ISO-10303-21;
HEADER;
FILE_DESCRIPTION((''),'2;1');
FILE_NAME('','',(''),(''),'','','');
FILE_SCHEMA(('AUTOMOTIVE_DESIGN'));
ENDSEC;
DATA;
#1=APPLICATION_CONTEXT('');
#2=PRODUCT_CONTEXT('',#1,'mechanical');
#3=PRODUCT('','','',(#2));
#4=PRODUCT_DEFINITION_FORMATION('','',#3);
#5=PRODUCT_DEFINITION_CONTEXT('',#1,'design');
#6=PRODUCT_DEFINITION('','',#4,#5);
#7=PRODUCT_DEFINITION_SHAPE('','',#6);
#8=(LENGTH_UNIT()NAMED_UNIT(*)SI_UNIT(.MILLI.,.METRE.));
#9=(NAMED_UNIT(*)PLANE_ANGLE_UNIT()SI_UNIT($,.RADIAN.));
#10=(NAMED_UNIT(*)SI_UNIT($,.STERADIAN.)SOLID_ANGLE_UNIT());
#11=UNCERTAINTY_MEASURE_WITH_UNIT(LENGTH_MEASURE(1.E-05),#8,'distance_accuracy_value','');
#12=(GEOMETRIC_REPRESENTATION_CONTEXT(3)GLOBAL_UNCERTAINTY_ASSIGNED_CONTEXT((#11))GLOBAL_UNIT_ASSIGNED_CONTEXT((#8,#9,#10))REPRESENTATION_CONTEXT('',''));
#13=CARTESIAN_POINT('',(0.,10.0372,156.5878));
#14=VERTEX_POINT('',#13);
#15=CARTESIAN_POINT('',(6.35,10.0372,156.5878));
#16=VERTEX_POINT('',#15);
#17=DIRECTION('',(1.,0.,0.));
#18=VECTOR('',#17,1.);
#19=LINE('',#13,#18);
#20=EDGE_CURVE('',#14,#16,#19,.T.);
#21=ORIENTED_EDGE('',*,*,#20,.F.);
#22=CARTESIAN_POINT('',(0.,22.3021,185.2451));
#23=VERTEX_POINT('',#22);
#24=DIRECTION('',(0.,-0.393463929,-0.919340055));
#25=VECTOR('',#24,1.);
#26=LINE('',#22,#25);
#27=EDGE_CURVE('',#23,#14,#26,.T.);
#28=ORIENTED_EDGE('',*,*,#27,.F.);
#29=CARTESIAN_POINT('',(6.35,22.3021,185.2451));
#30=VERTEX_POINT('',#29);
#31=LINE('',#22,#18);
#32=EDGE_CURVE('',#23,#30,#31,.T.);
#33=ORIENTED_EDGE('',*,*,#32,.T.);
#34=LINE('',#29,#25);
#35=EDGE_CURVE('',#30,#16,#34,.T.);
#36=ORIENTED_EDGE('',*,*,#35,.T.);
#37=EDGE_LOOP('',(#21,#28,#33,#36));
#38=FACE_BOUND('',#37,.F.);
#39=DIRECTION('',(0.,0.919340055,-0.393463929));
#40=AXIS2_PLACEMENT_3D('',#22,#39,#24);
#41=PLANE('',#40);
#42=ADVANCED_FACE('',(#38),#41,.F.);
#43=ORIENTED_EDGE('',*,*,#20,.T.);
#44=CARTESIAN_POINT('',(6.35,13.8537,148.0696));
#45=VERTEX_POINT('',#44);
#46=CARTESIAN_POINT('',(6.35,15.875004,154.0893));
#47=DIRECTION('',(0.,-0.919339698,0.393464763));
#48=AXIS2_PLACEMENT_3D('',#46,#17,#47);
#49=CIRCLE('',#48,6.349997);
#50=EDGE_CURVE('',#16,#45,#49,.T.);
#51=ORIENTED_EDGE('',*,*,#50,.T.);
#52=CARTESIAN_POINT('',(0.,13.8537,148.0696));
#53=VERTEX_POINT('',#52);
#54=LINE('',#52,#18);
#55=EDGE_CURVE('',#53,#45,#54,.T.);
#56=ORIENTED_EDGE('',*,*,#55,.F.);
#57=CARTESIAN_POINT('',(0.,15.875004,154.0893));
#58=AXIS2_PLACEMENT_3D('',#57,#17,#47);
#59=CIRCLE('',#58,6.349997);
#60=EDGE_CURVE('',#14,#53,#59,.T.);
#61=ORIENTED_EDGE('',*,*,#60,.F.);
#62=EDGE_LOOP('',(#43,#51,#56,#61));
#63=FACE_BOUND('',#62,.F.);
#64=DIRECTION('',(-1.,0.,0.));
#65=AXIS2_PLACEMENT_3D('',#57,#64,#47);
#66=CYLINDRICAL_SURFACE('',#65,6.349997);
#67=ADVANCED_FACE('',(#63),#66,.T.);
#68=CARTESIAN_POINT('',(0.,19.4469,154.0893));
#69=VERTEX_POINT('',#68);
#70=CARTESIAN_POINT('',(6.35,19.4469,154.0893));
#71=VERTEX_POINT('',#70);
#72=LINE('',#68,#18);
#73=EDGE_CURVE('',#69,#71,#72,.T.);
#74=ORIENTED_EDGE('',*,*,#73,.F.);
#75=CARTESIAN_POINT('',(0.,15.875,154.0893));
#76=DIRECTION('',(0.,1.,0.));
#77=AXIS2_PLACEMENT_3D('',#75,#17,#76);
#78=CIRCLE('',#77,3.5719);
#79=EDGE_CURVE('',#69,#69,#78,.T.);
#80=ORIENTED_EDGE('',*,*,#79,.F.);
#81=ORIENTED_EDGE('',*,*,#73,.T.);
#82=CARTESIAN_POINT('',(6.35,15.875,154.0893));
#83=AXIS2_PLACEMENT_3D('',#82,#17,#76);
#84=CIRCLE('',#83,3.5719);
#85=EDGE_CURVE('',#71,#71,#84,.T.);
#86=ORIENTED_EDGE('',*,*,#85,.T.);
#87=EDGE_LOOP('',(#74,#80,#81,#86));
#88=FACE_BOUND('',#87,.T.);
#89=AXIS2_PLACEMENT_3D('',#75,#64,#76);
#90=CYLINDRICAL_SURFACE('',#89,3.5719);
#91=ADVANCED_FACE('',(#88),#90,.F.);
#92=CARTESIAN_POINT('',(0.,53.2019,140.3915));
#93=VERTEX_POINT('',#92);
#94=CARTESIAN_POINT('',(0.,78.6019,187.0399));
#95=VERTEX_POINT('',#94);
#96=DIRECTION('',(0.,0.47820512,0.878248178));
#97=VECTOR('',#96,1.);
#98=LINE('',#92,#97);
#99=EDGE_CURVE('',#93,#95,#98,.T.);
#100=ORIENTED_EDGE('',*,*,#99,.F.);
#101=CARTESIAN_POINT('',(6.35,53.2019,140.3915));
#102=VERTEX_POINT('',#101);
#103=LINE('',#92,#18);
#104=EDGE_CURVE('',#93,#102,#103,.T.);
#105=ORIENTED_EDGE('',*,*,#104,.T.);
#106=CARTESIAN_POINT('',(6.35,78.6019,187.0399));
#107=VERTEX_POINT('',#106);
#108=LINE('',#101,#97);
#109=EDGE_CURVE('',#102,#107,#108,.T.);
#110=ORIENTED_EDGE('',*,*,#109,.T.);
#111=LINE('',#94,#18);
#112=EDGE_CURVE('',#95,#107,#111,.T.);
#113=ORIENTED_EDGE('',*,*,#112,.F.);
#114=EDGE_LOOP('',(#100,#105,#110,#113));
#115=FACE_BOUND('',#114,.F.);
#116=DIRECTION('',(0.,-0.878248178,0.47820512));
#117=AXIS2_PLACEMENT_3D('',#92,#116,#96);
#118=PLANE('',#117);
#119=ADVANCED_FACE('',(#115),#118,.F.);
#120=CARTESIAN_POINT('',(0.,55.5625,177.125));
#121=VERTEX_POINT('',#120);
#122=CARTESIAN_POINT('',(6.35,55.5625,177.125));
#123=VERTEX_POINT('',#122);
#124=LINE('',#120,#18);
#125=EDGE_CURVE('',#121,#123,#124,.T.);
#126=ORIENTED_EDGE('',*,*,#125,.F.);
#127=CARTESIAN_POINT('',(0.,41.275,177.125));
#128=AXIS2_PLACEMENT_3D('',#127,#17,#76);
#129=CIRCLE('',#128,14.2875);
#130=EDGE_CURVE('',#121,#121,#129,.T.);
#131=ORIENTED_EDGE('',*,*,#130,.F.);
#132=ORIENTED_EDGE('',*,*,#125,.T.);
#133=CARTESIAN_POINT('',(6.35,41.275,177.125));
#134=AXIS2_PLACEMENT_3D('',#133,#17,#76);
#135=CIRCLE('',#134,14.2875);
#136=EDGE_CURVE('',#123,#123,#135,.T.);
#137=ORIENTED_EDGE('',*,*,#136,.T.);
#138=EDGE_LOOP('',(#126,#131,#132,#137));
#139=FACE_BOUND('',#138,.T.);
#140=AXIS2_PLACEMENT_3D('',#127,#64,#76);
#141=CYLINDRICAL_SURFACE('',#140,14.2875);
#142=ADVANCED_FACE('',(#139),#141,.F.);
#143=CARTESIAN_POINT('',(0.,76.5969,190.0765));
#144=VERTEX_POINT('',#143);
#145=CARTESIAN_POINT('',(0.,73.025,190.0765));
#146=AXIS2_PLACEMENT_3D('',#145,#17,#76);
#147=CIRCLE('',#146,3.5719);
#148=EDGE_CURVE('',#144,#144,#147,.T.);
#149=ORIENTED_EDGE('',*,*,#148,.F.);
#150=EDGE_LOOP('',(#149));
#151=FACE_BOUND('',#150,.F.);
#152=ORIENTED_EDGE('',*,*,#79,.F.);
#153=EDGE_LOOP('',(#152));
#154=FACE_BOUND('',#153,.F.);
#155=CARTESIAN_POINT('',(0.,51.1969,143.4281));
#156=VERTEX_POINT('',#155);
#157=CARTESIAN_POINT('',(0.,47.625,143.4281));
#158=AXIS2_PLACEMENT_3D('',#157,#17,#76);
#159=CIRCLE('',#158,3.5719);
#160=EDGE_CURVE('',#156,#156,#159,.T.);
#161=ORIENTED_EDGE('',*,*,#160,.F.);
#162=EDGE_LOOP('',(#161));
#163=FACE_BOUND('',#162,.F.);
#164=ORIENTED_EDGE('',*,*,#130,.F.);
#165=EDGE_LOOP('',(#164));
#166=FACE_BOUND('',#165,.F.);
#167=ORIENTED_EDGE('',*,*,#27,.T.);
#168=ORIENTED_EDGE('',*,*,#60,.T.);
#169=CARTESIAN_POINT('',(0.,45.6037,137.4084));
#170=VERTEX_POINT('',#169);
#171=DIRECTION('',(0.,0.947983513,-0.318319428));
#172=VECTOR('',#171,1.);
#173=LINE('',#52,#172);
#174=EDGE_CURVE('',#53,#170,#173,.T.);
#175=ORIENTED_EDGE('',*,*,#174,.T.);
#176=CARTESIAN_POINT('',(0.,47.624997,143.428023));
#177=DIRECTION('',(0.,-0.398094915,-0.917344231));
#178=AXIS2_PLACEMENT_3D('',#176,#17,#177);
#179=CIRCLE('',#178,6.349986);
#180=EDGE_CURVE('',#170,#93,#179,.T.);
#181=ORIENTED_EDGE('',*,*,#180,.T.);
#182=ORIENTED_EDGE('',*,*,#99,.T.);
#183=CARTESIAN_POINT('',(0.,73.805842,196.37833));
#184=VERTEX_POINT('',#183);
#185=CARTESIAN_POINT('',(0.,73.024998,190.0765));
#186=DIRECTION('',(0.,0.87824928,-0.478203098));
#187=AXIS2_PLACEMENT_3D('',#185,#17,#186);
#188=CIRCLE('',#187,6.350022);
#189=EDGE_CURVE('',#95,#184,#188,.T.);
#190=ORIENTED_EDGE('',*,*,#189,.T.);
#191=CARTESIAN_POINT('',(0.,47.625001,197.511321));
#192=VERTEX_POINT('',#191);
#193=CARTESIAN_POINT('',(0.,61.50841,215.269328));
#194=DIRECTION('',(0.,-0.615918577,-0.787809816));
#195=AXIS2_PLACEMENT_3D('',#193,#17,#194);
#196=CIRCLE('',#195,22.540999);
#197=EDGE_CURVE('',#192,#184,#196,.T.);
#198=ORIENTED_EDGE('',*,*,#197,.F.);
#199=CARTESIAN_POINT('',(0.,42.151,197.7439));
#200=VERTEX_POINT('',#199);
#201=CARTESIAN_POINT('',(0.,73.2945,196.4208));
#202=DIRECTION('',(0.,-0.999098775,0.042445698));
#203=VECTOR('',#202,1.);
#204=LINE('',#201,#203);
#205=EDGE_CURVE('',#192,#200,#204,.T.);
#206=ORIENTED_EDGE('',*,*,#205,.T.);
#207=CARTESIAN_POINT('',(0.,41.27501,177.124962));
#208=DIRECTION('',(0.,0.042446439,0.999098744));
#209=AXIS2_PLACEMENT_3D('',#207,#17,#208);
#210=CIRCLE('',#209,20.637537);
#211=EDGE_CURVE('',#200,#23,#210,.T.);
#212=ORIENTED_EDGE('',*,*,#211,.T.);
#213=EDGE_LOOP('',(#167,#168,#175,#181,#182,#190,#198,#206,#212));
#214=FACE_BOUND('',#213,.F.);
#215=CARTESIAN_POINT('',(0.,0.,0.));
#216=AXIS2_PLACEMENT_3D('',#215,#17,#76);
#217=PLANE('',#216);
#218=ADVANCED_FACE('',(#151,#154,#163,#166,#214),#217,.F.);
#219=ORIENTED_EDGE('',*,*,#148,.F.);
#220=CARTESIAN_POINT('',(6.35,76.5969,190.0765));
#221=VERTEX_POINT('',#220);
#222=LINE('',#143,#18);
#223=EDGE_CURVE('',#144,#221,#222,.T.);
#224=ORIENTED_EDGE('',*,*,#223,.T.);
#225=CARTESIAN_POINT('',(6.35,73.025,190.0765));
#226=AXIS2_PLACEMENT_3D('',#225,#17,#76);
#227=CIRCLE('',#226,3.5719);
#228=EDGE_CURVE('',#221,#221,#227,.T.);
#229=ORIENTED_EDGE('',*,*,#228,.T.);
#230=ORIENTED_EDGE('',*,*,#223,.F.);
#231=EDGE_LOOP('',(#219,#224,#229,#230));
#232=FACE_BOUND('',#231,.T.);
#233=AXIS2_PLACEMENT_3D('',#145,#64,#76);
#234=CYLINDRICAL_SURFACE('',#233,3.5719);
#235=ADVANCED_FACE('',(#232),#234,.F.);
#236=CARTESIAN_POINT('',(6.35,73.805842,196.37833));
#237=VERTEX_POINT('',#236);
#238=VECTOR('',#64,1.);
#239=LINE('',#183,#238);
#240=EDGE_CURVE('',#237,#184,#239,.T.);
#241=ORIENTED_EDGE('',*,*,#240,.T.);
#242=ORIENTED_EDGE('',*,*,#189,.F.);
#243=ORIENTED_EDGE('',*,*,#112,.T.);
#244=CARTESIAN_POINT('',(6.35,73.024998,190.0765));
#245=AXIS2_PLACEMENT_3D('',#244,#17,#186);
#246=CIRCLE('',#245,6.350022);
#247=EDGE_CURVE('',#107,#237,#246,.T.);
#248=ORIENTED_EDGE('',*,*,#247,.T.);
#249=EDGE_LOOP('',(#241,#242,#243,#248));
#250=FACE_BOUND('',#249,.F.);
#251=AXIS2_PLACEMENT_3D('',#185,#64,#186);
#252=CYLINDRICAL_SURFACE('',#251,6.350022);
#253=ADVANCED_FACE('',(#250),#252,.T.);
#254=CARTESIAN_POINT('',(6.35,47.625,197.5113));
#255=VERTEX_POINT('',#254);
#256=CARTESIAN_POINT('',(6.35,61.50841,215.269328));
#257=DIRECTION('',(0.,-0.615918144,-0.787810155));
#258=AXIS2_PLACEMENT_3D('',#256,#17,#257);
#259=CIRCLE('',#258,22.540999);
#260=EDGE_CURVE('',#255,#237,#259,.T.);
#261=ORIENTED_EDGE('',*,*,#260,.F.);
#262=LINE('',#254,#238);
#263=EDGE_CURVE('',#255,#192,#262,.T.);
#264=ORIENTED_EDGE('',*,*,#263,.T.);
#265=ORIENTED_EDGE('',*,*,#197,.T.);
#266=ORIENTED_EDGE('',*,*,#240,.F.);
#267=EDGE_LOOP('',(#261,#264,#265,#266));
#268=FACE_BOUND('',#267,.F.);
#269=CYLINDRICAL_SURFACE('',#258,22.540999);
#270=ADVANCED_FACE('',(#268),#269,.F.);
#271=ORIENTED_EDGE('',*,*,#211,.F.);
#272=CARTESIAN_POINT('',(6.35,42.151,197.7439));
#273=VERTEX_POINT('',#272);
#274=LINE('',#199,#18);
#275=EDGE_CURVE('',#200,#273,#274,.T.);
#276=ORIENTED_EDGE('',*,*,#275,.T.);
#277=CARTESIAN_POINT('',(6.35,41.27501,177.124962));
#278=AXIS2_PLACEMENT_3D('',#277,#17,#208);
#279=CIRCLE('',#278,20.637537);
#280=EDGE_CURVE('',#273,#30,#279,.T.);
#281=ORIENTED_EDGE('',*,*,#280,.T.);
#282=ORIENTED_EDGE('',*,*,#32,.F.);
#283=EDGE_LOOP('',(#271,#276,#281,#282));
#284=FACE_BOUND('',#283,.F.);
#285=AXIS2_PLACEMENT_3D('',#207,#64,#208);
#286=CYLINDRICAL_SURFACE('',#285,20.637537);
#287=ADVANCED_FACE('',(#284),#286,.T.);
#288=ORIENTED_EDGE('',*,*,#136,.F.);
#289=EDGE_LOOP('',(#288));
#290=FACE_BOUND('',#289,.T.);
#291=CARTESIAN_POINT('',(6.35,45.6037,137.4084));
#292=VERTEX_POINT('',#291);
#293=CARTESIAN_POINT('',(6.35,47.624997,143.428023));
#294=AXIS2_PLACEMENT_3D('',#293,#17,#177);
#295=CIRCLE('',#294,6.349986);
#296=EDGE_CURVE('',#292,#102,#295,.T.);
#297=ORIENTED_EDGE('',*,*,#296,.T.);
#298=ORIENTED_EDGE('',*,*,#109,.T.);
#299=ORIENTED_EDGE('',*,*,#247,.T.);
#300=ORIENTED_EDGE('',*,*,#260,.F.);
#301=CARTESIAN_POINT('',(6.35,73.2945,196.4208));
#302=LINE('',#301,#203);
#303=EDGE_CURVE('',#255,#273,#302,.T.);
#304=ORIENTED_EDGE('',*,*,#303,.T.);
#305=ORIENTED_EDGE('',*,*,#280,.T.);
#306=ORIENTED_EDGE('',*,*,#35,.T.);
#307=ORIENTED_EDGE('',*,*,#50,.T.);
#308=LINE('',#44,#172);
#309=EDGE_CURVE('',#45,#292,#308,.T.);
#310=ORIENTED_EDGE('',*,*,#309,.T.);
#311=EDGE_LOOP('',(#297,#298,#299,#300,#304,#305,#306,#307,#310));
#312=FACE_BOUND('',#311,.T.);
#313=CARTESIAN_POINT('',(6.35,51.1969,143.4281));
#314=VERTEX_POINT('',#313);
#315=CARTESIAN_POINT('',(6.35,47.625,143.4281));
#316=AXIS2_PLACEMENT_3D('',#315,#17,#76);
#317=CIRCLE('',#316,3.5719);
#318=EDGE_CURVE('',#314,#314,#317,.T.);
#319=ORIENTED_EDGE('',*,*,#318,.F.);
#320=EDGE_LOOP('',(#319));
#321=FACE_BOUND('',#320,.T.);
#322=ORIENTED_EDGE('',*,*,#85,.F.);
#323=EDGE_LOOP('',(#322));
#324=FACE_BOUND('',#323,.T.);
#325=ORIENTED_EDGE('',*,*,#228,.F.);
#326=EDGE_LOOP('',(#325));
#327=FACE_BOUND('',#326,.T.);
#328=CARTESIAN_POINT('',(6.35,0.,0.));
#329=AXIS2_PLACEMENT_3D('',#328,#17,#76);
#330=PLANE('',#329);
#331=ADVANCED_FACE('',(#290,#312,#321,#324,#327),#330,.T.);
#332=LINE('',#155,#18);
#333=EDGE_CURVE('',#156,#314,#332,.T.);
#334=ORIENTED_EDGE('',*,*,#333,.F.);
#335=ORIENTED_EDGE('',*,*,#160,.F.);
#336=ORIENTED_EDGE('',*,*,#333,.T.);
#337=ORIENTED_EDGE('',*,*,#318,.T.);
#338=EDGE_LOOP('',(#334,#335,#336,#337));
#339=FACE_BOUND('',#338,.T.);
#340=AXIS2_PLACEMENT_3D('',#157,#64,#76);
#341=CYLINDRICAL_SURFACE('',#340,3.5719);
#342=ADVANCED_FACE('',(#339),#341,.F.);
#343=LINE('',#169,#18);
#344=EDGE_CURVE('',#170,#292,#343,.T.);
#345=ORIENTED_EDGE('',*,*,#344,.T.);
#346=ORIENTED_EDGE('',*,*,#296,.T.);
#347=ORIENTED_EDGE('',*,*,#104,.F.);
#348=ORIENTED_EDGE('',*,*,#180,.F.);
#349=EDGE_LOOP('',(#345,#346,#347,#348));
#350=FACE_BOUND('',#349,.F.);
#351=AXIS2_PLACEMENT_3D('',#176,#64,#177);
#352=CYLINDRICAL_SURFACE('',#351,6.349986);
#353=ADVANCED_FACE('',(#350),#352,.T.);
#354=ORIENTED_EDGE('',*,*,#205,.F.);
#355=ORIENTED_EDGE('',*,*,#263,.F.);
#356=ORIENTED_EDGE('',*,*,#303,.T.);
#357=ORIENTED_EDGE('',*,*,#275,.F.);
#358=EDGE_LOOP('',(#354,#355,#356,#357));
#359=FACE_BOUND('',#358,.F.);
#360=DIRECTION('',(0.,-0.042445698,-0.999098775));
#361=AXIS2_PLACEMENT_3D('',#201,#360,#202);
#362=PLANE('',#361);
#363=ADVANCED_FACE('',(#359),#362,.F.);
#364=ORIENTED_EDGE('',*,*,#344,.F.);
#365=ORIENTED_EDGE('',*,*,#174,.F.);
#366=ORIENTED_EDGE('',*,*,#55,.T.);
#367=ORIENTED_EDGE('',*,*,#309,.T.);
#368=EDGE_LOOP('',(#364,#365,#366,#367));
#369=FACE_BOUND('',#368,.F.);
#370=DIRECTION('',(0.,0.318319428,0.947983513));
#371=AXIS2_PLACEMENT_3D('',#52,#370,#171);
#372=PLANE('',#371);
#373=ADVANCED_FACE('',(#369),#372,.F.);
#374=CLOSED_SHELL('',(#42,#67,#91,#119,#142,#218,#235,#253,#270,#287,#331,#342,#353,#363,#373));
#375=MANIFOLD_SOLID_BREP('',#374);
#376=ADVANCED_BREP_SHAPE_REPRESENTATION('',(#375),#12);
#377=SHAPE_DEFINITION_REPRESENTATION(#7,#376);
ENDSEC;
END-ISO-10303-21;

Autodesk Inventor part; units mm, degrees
ref_plane "YZ Plane" through (0, 0, 0) normal (1, 0, 0) x (0, 1, 0)
ref_plane "XZ Plane" through (0, 0, 0) normal (0, 1, 0) x (-1, 0, 0)
ref_plane "XY Plane" through (0, 0, 0) normal (0, 0, 1) x (1, 0, 0)
sketch "Sketch1" plane through (0, 0, 0) normal (1, 0, 0) x (0, 1, 0)
  line L0 (111.125, 190.5) -> (36.4799, 190.5)
  line L1 (36.4799, 190.5) -> (-11.1661, 102.5705)
  arc A0 (-11.1661, 102.5705) -> (-11.1661, 90.4695) centre (0, 96.52) ccw
  line L2 (-11.1661, 90.4695) -> (7.6076, 55.8231)
  arc A1 (-11.1661, 6.0505) -> (-11.1661, -6.0505) centre (0, 0) ccw
  line L3 (-11.1661, -6.0505) -> (7.6076, -40.6969)
  arc A2 (-11.1661, -90.4695) -> (-11.1661, -102.5705) centre (0, -96.52) ccw
  line L4 (-11.1661, -102.5705) -> (36.4799, -190.5)
  line L5 (36.4799, -190.5) -> (111.125, -190.5)
  line L6 (111.125, -190.5) -> (111.125, 190.5)
  circle A3 centre (64.6139, -120.5964) radius 6.35 construction
  circle A4 centre (42.5128, -176.727) radius 4.7625 construction
  line L7 (111.125, 0) -> (0, 0) construction
  circle A5 centre (0, 96.52) radius 2.4892 construction
  circle A6 centre (0, 0) radius 2.4892 construction
  circle A7 centre (0, -96.52) radius 2.4892 construction
  line L8 (-11.1661, 6.0505) -> (7.6076, 40.6969)
  arc A8 (7.6076, 40.6969) -> (7.6076, 55.8231) centre (-6.35, 48.26) ccw
  line L9 (-11.1661, -90.4695) -> (7.6076, -55.8231)
  arc A9 (7.6076, -55.8231) -> (7.6076, -40.6969) centre (-6.35, -48.26) ccw
  line L10 (-6.35, -48.26) -> (-6.35, 48.26) construction
  line L11 (-6.35, 0) -> (0, 0) construction
  circle A10 centre (0, 96.52) radius 3.175
  circle A11 centre (0, 0) radius 3.175
  circle A12 centre (0, -96.52) radius 3.175
  circle A13 centre (46.0375, 122.682) radius 3.5687 construction
  circle A14 centre (20.6375, 122.682) radius 3.5687 construction
  circle A15 centre (46.0375, 122.682) radius 3.175
  circle A16 centre (20.6375, 122.682) radius 3.175
  circle A17 centre (100.0125, -94.6341) radius 3.175
  circle A18 centre (74.6125, -94.6341) radius 3.175
  line L12 (0, 96.52) -> (-12.7, 96.52) construction
  circle A19 centre (60.325, -101.6) radius 3.5687 construction
  circle A20 centre (80.899, -155.6385) radius 12.0396 construction
  line L13 (30.099, -178.7242) -> (30.099, -155.6385)
  arc A21 (111.125, -114.8092) -> (30.099, -155.6385) centre (80.899, -155.6385) ccw
  circle A22 centre (60.325, -101.6) radius 3.175
  circle A23 centre (41.275, 177.125) radius 20.6375
  circle A24 centre (41.275, 177.125) radius 26.9875
  circle A25 centre (41.275, 177.125) radius 25.4 construction
  circle A26 centre (85.725, 107.3629) radius 7.9375
  line L14 (-12.7, 190.5) -> (-12.7, -193.5034) construction
  circle A27 centre (85.725, 107.3629) radius 17.78 construction
  circle A28 centre (79.375, 147.5038) radius 22.86 construction
  circle A29 centre (79.375, 147.5038) radius 14.2875
  circle A30 centre (66.675, 254) radius 58.7375 construction
  circle A31 centre (66.675, -254) radius 58.7375 construction
  circle A32 centre (80.899, -155.6385) radius 47.527 construction
  circle A33 centre (100.0125, -94.6341) radius 6.35 construction
  circle A34 centre (74.6125, -94.6341) radius 6.35 construction
  circle A35 centre (17.4625, -131.1466) radius 3.175
  circle A36 centre (17.4625, -131.1466) radius 6.35 construction
  line L15 (9.525, 127) -> (-15.875, 127) construction
  line L16 (-15.875, 127) -> (-15.875, -177.8) construction
  line L17 (-15.875, -177.8) -> (9.525, -177.8) construction
  line L18 (9.525, -177.8) -> (9.525, 127) construction
  circle A37 centre (103.1875, 79.2324) radius 3.175
  circle A38 centre (103.1875, 79.2324) radius 6.35 construction
  circle A39 centre (71.4375, 79.2324) radius 3.175
  circle A40 centre (71.4375, 79.2324) radius 6.35 construction
  line L19 (110.475, 71.2949) -> (60.975, 71.2949) construction
  line L20 (60.975, 71.2949) -> (60.975, -72.4091) construction
  line L21 (60.975, -72.4091) -> (110.475, -72.4091) construction
  line L22 (110.475, -72.4091) -> (110.475, 71.2949) construction
  line L23 (59.675, 71.2949) -> (10.175, 71.2949) construction
  line L24 (10.175, 71.2949) -> (10.175, -72.4091) construction
  line L25 (10.175, -72.4091) -> (59.675, -72.4091) construction
  line L26 (59.675, -72.4091) -> (59.675, 71.2949) construction
  circle A41 centre (99.3625, 31.9249) radius 2.0193
  circle A42 centre (99.3625, 57.3249) radius 2.0193
  circle A43 centre (73.9625, 31.9249) radius 2.0193
  circle A44 centre (73.9625, 57.3249) radius 2.0193
  circle A45 centre (48.5625, -58.4391) radius 2.0193
  circle A46 centre (48.5625, -33.0391) radius 2.0193
  circle A47 centre (23.1625, -58.4391) radius 2.0193
  circle A48 centre (23.1625, -33.0391) radius 2.0193
  line L27 (85.725, 107.3629) -> (85.725, 71.2949) construction
  line L28 (34.925, -72.4091) -> (34.925, -108.4771) construction
  circle A49 centre (-7.9375, -170.18) radius 12 construction
  line L29 (30.099, -178.7242) -> (30.099, -190.5)
  line L30 (30.099, -190.5) -> (5.0625, -190.5)
  line L31 (5.0625, -190.5) -> (5.0625, -132.5199)
  line L32 (36.4799, -190.5) -> (30.099, -190.5)
  circle A50 centre (-7.9375, -170.18) radius 13 construction
  line L33 (111.125, -104.8385) -> (80.899, -104.8385)
  line L34 (111.125, 190.5) -> (46.6374, 203.5744)
  line L35 (-8.7101, 107.103) -> (15.4999, 185.1231)
  circle A51 centre (34.925, -108.4771) radius 17.78 construction
  circle A52 centre (41.275, 177.125) radius 22.225 construction
  circle A53 centre (34.925, -108.4771) radius 7.9375
  circle A54 centre (41.275, 177.125) radius 14.2875
  point P0 (45.9508, 203.7044)
  point P1 (15.9875, 186.5519)
  point P2 (64.715, 190.5)
  point P3 (20.1393, 160.3438)
  dimension "d2" = 15.875
  dimension "d3" = 6.35
  dimension "d4" = 96.52
  dimension "d8" = 6.35
  dimension "d9" = 381
  dimension "d12" = 12.7
  dimension "d14" = 50.8
  dimension "d60" = 41.275
  dimension "d61" = 6.35
  dimension "d62" = 50.8
  dimension "d63" = 15.875
  dimension "d64" = 25.4
  dimension "d66" = 123.825
  dimension "d67" = 35.56
  dimension "d68" = 45.72
  dimension "d69" = 28.575
  dimension "d70" = 31.75
  dimension "d71" = 117.475
  dimension "d72" = 117.475
  dimension "d73" = 95.054
  dimension "d74" = 14.224
  dimension "d75" = 98.3615
  dimension "d76" = 63.5
  dimension "d77" = 44.45
  dimension "d78" = 63.5
  dimension "d79" = 12.7
  dimension "d80" = 12.7
  dimension "d81" = 25.4
  dimension "d82" = 25.4
  dimension "d83" = 304.8
  dimension "d84" = 9.525
  dimension "d89" = 31.75
  dimension "d90" = 12.7
  dimension "d91" = 4.0386
  dimension "d94" = 25.4
  dimension "d97" = 25.4
  dimension "d100" = 4.0386
  dimension "d103" = 25.4
  dimension "d106" = 25.4
  dimension "d109" = 143.704
  dimension "d110" = 143.704
  dimension "d111" = 49.5
  dimension "d112" = 49.5
  dimension "d113" = 13.97
  dimension "d114" = 11.1125
  dimension "d115" = 13.97
  dimension "d116" = 11.1125
  dimension "d117" = 50.038
  dimension "d119" = 7.9375
  dimension "d120" = 7.9375
  dimension "d121" = 11.1125
  dimension "d122" = 22.225
  dimension "d123" = 24
  dimension "d124" = 17.4625
  dimension "d125" = 7.62
  dimension "d127" = 26
  dimension "d128" = 7.9375
  dimension "d164" = 44.45
  dimension "d165" = 69.85
  dimension "d167" = 36.5125
  dimension "d169" = 50.038
  dimension "d170" = 47.1614
  dimension "d171" = 28.575
extrude "Extrusion1" [suppressed]
sketch "Sketch2" plane through (12.7, 0, 0) normal (1, 0, 0) x (0, 0, -1)
  line L0 (-90.4695, -11.1661) -> (-55.8231, 7.6076) construction
  line L1 (-40.6969, 7.6076) -> (-6.0505, -11.1661) construction
  line L2 (6.0505, -11.1661) -> (40.6969, 7.6076) construction
  line L3 (55.8231, 7.6076) -> (90.4695, -11.1661) construction
  line L4 (-107.103, -8.7101) -> (-102.5705, -11.1661) construction
  arc A0 (104.8385, 80.899) -> (155.6385, 30.099) centre (155.6385, 80.899) ccw construction
  line L5 (102.5705, -11.1661) -> (178.7242, 30.099) construction
  circle A1 centre (-190.5, 111.125) radius 3.9688 construction
  circle A2 centre (-146.05, 85.725) radius 7.9375 construction
  circle A3 centre (-146.05, 85.725) radius 3.9688 construction
  circle A4 centre (-152.4, 60.325) radius 3.175 construction
  circle A5 centre (-152.4, 60.325) radius 3.9688 construction
  circle A6 centre (-122.682, 46.0375) radius 3.175 construction
  circle A7 centre (-122.682, 46.0375) radius 3.9688 construction
  circle A8 centre (-122.682, 20.6375) radius 3.175 construction
  circle A9 centre (-122.682, 20.6375) radius 3.9688 construction
  circle A10 centre (-96.52, 0) radius 3.175 construction
  circle A11 centre (-96.52, 0) radius 3.9688 construction
  circle A12 centre (0, 0) radius 3.175 construction
  circle A13 centre (0, 0) radius 3.9688 construction
  circle A14 centre (96.52, 0) radius 3.175 construction
  circle A15 centre (96.52, 0) radius 3.9688 construction
  circle A16 centre (101.6, 60.325) radius 3.175 construction
  circle A17 centre (101.6, 60.325) radius 3.9688 construction
  circle A18 centre (92.075, 34.925) radius 7.9375 construction
  circle A19 centre (92.075, 34.925) radius 3.9688 construction
  circle A20 centre (94.6341, 74.6125) radius 3.175 construction
  circle A21 centre (94.6341, 74.6125) radius 3.9688 construction
  circle A22 centre (94.6341, 100.0125) radius 3.175 construction
  circle A23 centre (94.6341, 100.0125) radius 3.9688 construction
  line L6 (-190.5, 111.125) -> (-146.05, 85.725) construction
  line L7 (-146.05, 85.725) -> (-152.4, 60.325) construction
  line L8 (-152.4, 60.325) -> (-122.682, 46.0375) construction
  line L9 (-152.4, 60.325) -> (-190.5, 111.125) construction
  line L10 (-122.682, 20.6375) -> (-152.4, 60.325) construction
  line L11 (-122.682, 20.6375) -> (-96.52, 0) construction
  line L12 (94.6341, 100.0125) -> (94.6341, 74.6125) construction
  line L13 (94.6341, 74.6125) -> (101.6, 60.325) construction
  line L14 (101.6, 60.325) -> (92.075, 34.925) construction
  line L15 (92.075, 34.925) -> (96.52, 0) construction
  line L16 (96.52, 0) -> (101.6, 60.325) construction
  line L17 (92.075, 34.925) -> (94.6341, 74.6125) construction
  line L18 (101.6, 60.325) -> (94.6341, 100.0125) construction
  line L19 (-122.682, 46.0375) -> (-96.52, 0) construction
  line L20 (104.8385, 111.125) -> (104.8385, 111.125) construction
  line L21 (-146.05, 85.725) -> (-106.0133, 111.125) construction
  circle A24 centre (-122.682, 46.0375) radius 3.175 projected
  line L22 (-146.05, 85.725) -> (-106.0133, 60.325) construction
  line L23 (-106.0133, 60.325) -> (-106.0133, 111.125) construction
  line L24 (92.075, 34.925) -> (77.9653, 57.15) construction
  line L25 (77.9653, 57.15) -> (77.9653, 12.7) construction
  line L26 (77.9653, 12.7) -> (92.075, 34.925) construction
  circle A25 centre (-122.682, 20.6375) radius 3.175 construction
  line L27 (-122.682, 46.0375) -> (-122.682, 20.6375) construction
  line L28 (-122.682, 46.0375) -> (-106.0133, 60.325) construction
  line L29 (0, 0) -> (0, 111.125) construction
  line L30 (104.8385, 111.125) -> (104.8385, 111.125) construction
  line L31 (77.9653, 12.7) -> (0, 0) construction
  line L32 (96.52, 0) -> (77.9653, 12.7) construction
  circle A26 centre (-96.52, 0) radius 3.175 construction
  line L33 (-106.0133, 111.125) -> (-96.52, 0) construction
  circle A27 centre (-106.0133, 111.125) radius 3.9688 construction
  circle A28 centre (0, 111.125) radius 3.9687 construction
  line L34 (0, 0) -> (77.9653, 57.15) construction
  line L35 (77.9653, 57.15) -> (0, 111.125) construction
  line L36 (-190.5, 104.5104) -> (-190.5, -12.7)
  line L37 (-190.5, -12.7) -> (178.7242, -12.7)
  line L38 (178.7242, -12.7) -> (178.7242, 111.125)
  line L39 (178.7242, 111.125) -> (99.6211, 111.125)
  line L40 (-190.5, 111.125) -> (-190.5, 36.4799) projected
  line L41 (-175.5554, 107.1562) -> (-155.9978, 95.9805)
  line L42 (-136.5864, 96.4289) -> (-119.6775, 107.1562)
  line L43 (-119.6775, 107.1562) -> (-175.5554, 107.1562)
  line L44 (-109.982, 103.9071) -> (-109.982, 67.5429)
  line L45 (-109.982, 67.5429) -> (-132.3343, 81.7236)
  line L46 (-132.3343, 89.7264) -> (-109.982, 103.9071)
  line L47 (-152.4, 60.325) -> (-106.0133, 60.325) construction
  line L48 (-154.1502, 69.6878) -> (-153.2291, 73.3721)
  line L49 (-159.9359, 89.0888) -> (-171.5185, 95.7074)
  line L50 (-145.5286, 71.447) -> (-146.4497, 67.7627)
  line L51 (-143.7412, 64.2937) -> (-119.6775, 64.2937)
  line L52 (-119.6775, 64.2937) -> (-136.5864, 75.0211)
  line L53 (-100.5305, 93.5713) -> (-93.4492, 10.6798)
  line L54 (-54.9309, 13.9788) -> (-100.5305, 93.5713)
  line L55 (-99.1656, 107.1562) -> (-48.5749, 18.852)
  line L56 (-48.5749, 18.852) -> (-6.3001, 107.1562)
  line L57 (-6.3001, 107.1562) -> (-99.1656, 107.1562)
  line L58 (-42.0864, 14.0232) -> (-3.9688, 93.644)
  line L59 (-3.9688, 93.644) -> (-3.9688, 10.3796)
  line L60 (12.7052, 107.1562) -> (73.9966, 64.7246)
  line L61 (73.9966, 64.7246) -> (73.9966, 107.1562)
  line L62 (73.9966, 107.1562) -> (12.7052, 107.1562)
  line L63 (81.9341, 43.4938) -> (81.9341, 26.3562)
  line L64 (81.9341, 26.3562) -> (81.3681, 25.4648)
  line L65 (81.3681, 44.3852) -> (81.9341, 43.4938)
  line L66 (15.4626, 6.4136) -> (73.9966, 49.32)
  line L67 (73.9966, 49.32) -> (73.9966, 9.5477)
  line L68 (3.9688, 7.83) -> (3.9688, 103.5504)
  line L69 (3.9688, 103.5504) -> (71.1263, 57.0576)
  line L70 (71.1263, 57.0576) -> (3.9688, 7.83)
  line L71 (94.6341, 74.6125) -> (77.9653, 57.15) construction
  circle A29 centre (77.9653, 57.15) radius 3.9688 construction
  line L72 (82.9801, 56.6557) -> (89.9715, 63.98)
  line L73 (89.9715, 63.98) -> (88.8981, 47.3339)
  line L74 (88.8981, 47.3339) -> (82.9801, 56.6557)
  line L75 (97.6308, 59.41) -> (96.9187, 48.3664)
  line L76 (94.238, 66.3687) -> (97.6308, 59.41)
  line L77 (79.2423, 7.3066) -> (88.0693, 21.2105)
  arc A30 (-136.5864, 96.4289) -> (-155.9978, 95.9805) centre (-146.05, 85.725) ccw
  arc A31 (-132.3343, 81.7236) -> (-132.3343, 89.7264) centre (-146.05, 85.725) ccw
  arc A32 (-145.5286, 71.447) -> (-136.5864, 75.0211) centre (-146.05, 85.725) ccw
  arc A33 (-159.9359, 89.0888) -> (-153.2291, 73.3721) centre (-146.05, 85.725) ccw
  arc A34 (-190.5, 111.125) -> (-188.5663, 106.5622) centre (-184.15, 111.125) ccw
  arc A35 (-161.7077, 58.3023) -> (-154.7102, 51.0844) centre (-152.4, 60.325) ccw
  arc A36 (-132.1679, 21.4994) -> (-118.8104, 11.9348) centre (-122.682, 20.6375) ccw
  arc A37 (-107.3496, 2.4916) -> (-89.4091, -8.5395) centre (-96.52, 0) ccw
  arc A38 (-7.1109, -8.5395) -> (7.1109, -8.5395) centre (0, 0) ccw
  arc A39 (89.4091, -8.5395) -> (105.7359, 6.2092) centre (96.52, 0) ccw
  arc A40 (108.765, 54.049) -> (106.2813, 68.6202) centre (101.6, 60.325) ccw
  arc A41 (101.8605, 93.8073) -> (101.4363, 106.68) centre (94.6341, 100.0125) ccw
  arc A42 (-161.7077, 58.3023) -> (-188.5663, 106.5622) centre (-254.8735, 38.0558) ccw
  arc A43 (-158.047, 67.9956) -> (-171.5185, 95.7074) centre (-254.8735, 38.0558) ccw
  arc A44 (-132.1679, 21.4994) -> (-154.7102, 51.0844) centre (-159.584, 23.9903) ccw
  circle A45 centre (-152.4, 60.325) radius 3.175 projected
  arc A46 (-154.1502, 69.6878) -> (-158.047, 67.9956) centre (-152.4, 60.325) ccw
  arc A47 (-143.7412, 64.2937) -> (-146.4497, 67.7627) centre (-152.4, 60.325) ccw
  arc A48 (-107.3496, 2.4916) -> (-118.8104, 11.9348) centre (-115.4372, 4.3524) ccw
  arc A49 (-7.1109, -8.5395) -> (-89.4091, -8.5395) centre (-48.26, -57.9553) ccw
  arc A50 (89.4091, -8.5395) -> (7.1109, -8.5395) centre (48.26, -57.9553) ccw
  arc A51 (99.6211, 111.125) -> (101.4363, 106.68) centre (105.9711, 111.125) ccw
  arc A52 (101.8605, 93.8073) -> (106.2813, 68.6202) centre (114.4128, 83.029) ccw
  circle A53 centre (-48.26, 10.3187) radius 3.9688 construction
  circle A54 centre (77.9653, 12.7) radius 3.9688 construction
  arc A55 (-54.9309, 13.9788) -> (-86.0187, 3.6345) centre (-48.26, -57.9553) ccw
  arc A56 (-10.5013, 3.6345) -> (-42.0864, 14.0232) centre (-48.26, -57.9553) ccw
  arc A57 (-3.9688, 10.3796) -> (-10.5013, 3.6345) centre (0, 0) ccw
  arc A58 (-6.0505, -11.1661) -> (6.0505, -11.1661) centre (0, 0) ccw projected
  line L78 (0, 111.125) -> (-48.26, 10.3187) construction
  line L79 (-48.26, 10.3187) -> (-106.0133, 111.125) construction
  line L80 (0, 0) -> (-96.52, 0) construction
  line L81 (-48.26, 6.35) -> (-48.26, 0) construction
  arc A59 (-86.0187, 3.6345) -> (-93.4492, 10.6798) centre (-96.52, 0) ccw
  arc A60 (94.3607, 10.9007) -> (86.0187, 3.6345) centre (96.52, 0) ccw
  arc A61 (86.0187, 3.6345) -> (79.2423, 7.3066) centre (48.26, -57.9553) ccw
  arc A62 (73.9966, 9.5477) -> (15.4626, 6.4136) centre (48.26, -57.9553) ccw
  arc A63 (99.4166, 22.668) -> (102.6192, 44.5662) centre (92.075, 34.925) ccw
  arc A64 (95.8015, 48.718) -> (96.9187, 48.3664) centre (92.075, 34.925) ccw
  arc A65 (81.3681, 44.3852) -> (81.3681, 25.4648) centre (92.075, 34.925) ccw
  arc A66 (88.0693, 21.2105) -> (91.6956, 20.6425) centre (92.075, 34.925) ccw
  arc A67 (108.765, 54.049) -> (102.6192, 44.5662) centre (138.319, 28.1619) ccw
  arc A68 (99.4166, 22.668) -> (105.7359, 6.2092) centre (138.319, 28.1619) ccw
  arc A69 (94.238, 66.3687) -> (97.4162, 51.768) centre (101.6, 60.325) ccw
  arc A70 (97.4162, 51.768) -> (95.8015, 48.718) centre (138.319, 28.1619) ccw
  arc A71 (91.6956, 20.6425) -> (94.3607, 10.9007) centre (138.319, 28.1619) ccw
  line L82 (-96.52, 0) -> (-48.26, 10.3187) construction
  line L83 (0, 0) -> (-48.26, 10.3187) construction
  point P0 (69.85, 74.6125)
  point P1 (-173.2979, 46.2664)
  point P2 (114.8092, 111.125)
  point P3 (132.5199, 5.0625)
  point P4 (97.1469, 51.9051)
  point P5 (97.1024, 51.2158)
  dimension "d33" = 7.9375
  dimension "d34" = 44.45
  dimension "d35" = 50.8
  dimension "d37" = 16.6687
  dimension "d38" = 16.6687
  dimension "d39" = 14.2875
  dimension "d40" = 9.525
  dimension "d41" = 11.1125
  dimension "d42" = 6.35
  dimension "d44" = 6.35
  dimension "d46" = 14.2875
  dimension "d47" = 7.9375
extrude "Extrusion2" [suppressed]
delete_face "Delete Face1" [suppressed]
fillet "Fillet2" [suppressed]
fillet "Fillet3" [suppressed]
fillet "Fillet4" [suppressed]
sketch "Sketch3" plane through (0, 111.125, 190.5) normal (0, 1, 0) x (1, 0, 0)
  circle A0 centre (69.85, 18.9559) radius 3.175
  circle A1 centre (69.85, 87.1601) radius 3.175
  circle A2 centre (69.85, 190.5) radius 3.175
  circle A3 centre (69.85, 274.2219) radius 3.175
  line L0 (63.5, 381) -> (63.5, 0)
  line L1 (12.7, 0) -> (12.7, 1.9337) projected
  line L2 (63.5, 0) -> (12.7, 0)
  line L3 (12.7, 0) -> (38.1, 0)
  line L4 (38.1, 22.1309) -> (38.1, 0)
  circle A4 centre (6.35, 18.9559) radius 3.175
  circle A5 centre (6.35, 87.1601) radius 3.175
  circle A6 centre (6.35, 190.5) radius 3.175
  circle A7 centre (6.35, 12.5087) radius 3.175
  line L5 (12.7, 19.3349) -> (12.7, 20.9224) projected
  circle A8 centre (6.35, 248.6025) radius 3.175
  point P0 (0, 190.5)
  point P1 (12.7, 20.1348)
  point P2 (12.7, 20.1287)
  point P3 (12.7, 239.7125)
  dimension "d51" = 6.35
  dimension "d52" = 7.62
  dimension "d53" = 6.35
  dimension "d54" = 8.89
extrude "Extrusion3" [suppressed]
extrude "Extrusion4" [suppressed]
fillet "Fillet5" [suppressed]
fillet "Fillet6" [suppressed]
sketch "Sketch4" plane through (12.7, 0, 0) normal (1, 0, 0) x (0, 0, -1)
  line L0 (177.8, 9.525) -> (-127, 9.525) construction
  line L1 (-127, 9.525) -> (-127, -15.875) construction
  line L2 (-127, -15.875) -> (177.8, -15.875) construction
  line L3 (-190.5, -12.7) -> (193.5034, -12.7) construction
  line L4 (177.8, -15.875) -> (177.8, 9.525) construction
  line L5 (-151.384, 167.5964) -> (215.7494, 167.5964) construction
  line L6 (215.7494, 167.5964) -> (215.7494, 66.675) construction
  line L7 (215.7494, 66.675) -> (-151.384, 66.675) construction
  line L8 (-151.384, 66.675) -> (-151.384, 167.5964) construction
  circle A0 centre (155.6385, 99.949) radius 47.527 construction
  circle A1 centre (92.075, 34.925) radius 7.9375 projected
  circle A2 centre (92.075, 34.925) radius 22.225 construction
  line L9 (-138.684, 66.675) -> (64.516, 66.675) construction
  line L10 (64.516, 66.675) -> (64.516, 15.875) construction
  line L11 (64.516, 15.875) -> (-138.684, 15.875) construction
  line L12 (-138.684, 15.875) -> (-138.684, 66.675) construction
  circle A3 centre (-147.5038, 79.375) radius 14.2875 construction
  circle A4 centre (-177.125, 41.275) radius 20.6375 construction
  circle A5 centre (-107.3629, 85.725) radius 7.9375 construction
  circle A6 centre (-147.5038, 79.375) radius 22.86 construction
  circle A7 centre (-107.3629, 85.725) radius 17.78 construction
  circle A8 centre (-177.125, 41.275) radius 25.4 construction
  circle A9 centre (-75.184, 53.975) radius 3.175
  circle A10 centre (-100.584, 28.575) radius 3.175
  circle A11 centre (-62.484, 28.575) radius 3.175
  circle A12 centre (-37.084, 53.975) radius 3.175
  circle A13 centre (-24.384, 28.575) radius 3.175
  circle A14 centre (1.016, 53.975) radius 3.175
  circle A15 centre (-122.682, 46.0375) radius 3.175 construction
  circle A16 centre (-122.682, 20.6375) radius 3.175 construction
  circle A17 centre (13.716, 28.575) radius 3.175
  point P0 (0, 0)
  point P1 (155.6385, 80.899)
  dimension "d130" = 82.55
  dimension "d131" = 367.1334
  dimension "d132" = 100.9214
  dimension "d133" = 60.1109
  dimension "d134" = 95.054
  dimension "d135" = 33.274
  dimension "d136" = 44.45
  dimension "d137" = 203.2
  dimension "d138" = 12.7
  dimension "d139" = 35.56
  dimension "d140" = 45.72
  dimension "d141" = 50.8
  dimension "d142" = 50.8
  dimension "d143" = 6.35
  dimension "d145" = 38.1
  dimension "d146" = 76.2
  dimension "d147" = 38.1
  dimension "d148" = 76.2
  dimension "d149" = 25.4
  dimension "d150" = 25.4
  dimension "d151" = 12.7
  dimension "d152" = 38.1
  dimension "d153" = 114.3
extrude "Extrusion5" [suppressed]
sketch "Sketch6" plane through (12.7, 0, 0) normal (1, 0, 0) x (0, 0, -1)
  circle A0 centre (-190.0765, 73.025) radius 3.175
  circle A1 centre (-143.4281, 47.625) radius 3.175
  circle A2 centre (-154.0893, 15.875) radius 3.175
  circle A3 centre (-190.0765, 73.025) radius 6.35 construction
  circle A4 centre (-143.4281, 47.625) radius 6.35 construction
  circle A5 centre (-154.0893, 15.875) radius 6.35 construction
  circle A6 centre (-177.125, 41.275) radius 14.2875 construction
  circle A7 centre (-177.125, 41.275) radius 34.29 construction
  line L0 (104.8385, 111.125) -> (-190.5, 111.125) construction
  circle A8 centre (-147.5038, 79.375) radius 14.2875 construction
  circle A9 centre (-147.5038, 79.375) radius 22.86 construction
  circle A10 centre (-177.125, 41.275) radius 25.4 construction
  line L1 (-190.0765, 73.025) -> (-154.0893, 15.875) construction
  line L2 (-154.0893, 15.875) -> (-143.4281, 47.625) construction
  line L3 (-143.4281, 47.625) -> (-190.0765, 73.025) construction
  point P0 (0, 0)
  dimension "d172" = 6.35
  dimension "d173" = 12.7
  dimension "d176" = 63.5
  dimension "d177" = 95.25
  dimension "d180" = 68.58
  dimension "d181" = 45.72
  dimension "d182" = 38.1
extrude "Extrusion6" [suppressed]
sketch "Sketch7" plane through (12.7, 0, 0) normal (1, 0, 0) x (0, 0, -1)
  circle A0 centre (-107.3629, 85.725) radius 7.9375 projected
  circle A1 centre (-107.3629, 85.725) radius 12.6996 construction
  circle A2 centre (-116.3429, 94.705) radius 1
  circle A3 centre (-116.3429, 76.745) radius 1
  circle A4 centre (-98.3829, 76.745) radius 1
  circle A5 centre (-98.3829, 94.705) radius 1
  circle A6 centre (108.4771, 34.925) radius 7.9375 construction
  circle A7 centre (108.4771, 34.925) radius 12.6996 construction
  circle A8 centre (99.4971, 43.905) radius 1
  circle A9 centre (99.4971, 25.945) radius 1
  circle A10 centre (117.4571, 25.945) radius 1
  circle A11 centre (117.4571, 43.905) radius 1
  point P0 (0, 0)
  dimension "d183" = 25.3993
  dimension "d184" = 8.98
  dimension "d185" = 2
  dimension "d188" = 360
  dimension "d190" = 2
  dimension "d191" = 8.98
  dimension "d194" = 360
extrude "Extrusion7" [suppressed]
sketch "Sketch8" plane through (0, 0, 0) normal (1, 0, 0) x (0, 1, 0)
  circle A0 centre (41.275, 177.125) radius 14.2875 projected
  circle A1 centre (73.025, 190.0765) radius 3.175 projected
  circle A2 centre (41.275, 177.125) radius 14.2875 construction
  circle A3 centre (15.875, 154.0893) radius 3.175 projected
  circle A4 centre (41.275, 177.125) radius 34.29 construction
  circle A5 centre (47.625, 143.4281) radius 3.175 projected
  circle A6 centre (73.025, 190.0765) radius 6.35 construction
  circle A7 centre (47.625, 143.4281) radius 6.35 construction
  circle A8 centre (15.875, 154.0893) radius 6.35 construction
  circle A9 centre (41.275, 177.125) radius 20.6375 construction
  line L0 (73.2945, 196.4208) -> (42.151, 197.7439)
  line L1 (22.3021, 185.2451) -> (10.0372, 156.5878)
  line L2 (13.8537, 148.0696) -> (45.6037, 137.4084)
  line L3 (53.2019, 140.3915) -> (78.6019, 187.0399)
  arc A10 (78.6019, 187.0399) -> (73.2945, 196.4208) centre (73.025, 190.0765) ccw
  arc A11 (42.151, 197.7439) -> (22.3021, 185.2451) centre (41.275, 177.125) ccw
  arc A12 (10.0372, 156.5878) -> (13.8537, 148.0696) centre (15.875, 154.0893) ccw
  arc A13 (45.0971, 137.6029) -> (53.2019, 140.3915) centre (47.625, 143.4281) ccw
  circle A14 centre (73.025, 190.0765) radius 3.5719
  circle A15 centre (47.625, 143.4281) radius 3.5719
  circle A16 centre (15.875, 154.0893) radius 3.5719
  point P0 (0, 0)
  dimension "d198" = 3.175
  dimension "d199" = 6.35
  dimension "d202" = 7.1437
  dimension "d203" = 7.1437
  dimension "d204" = 7.1437
extrude "Extrusion8" add sketch "Sketch8" along normal blind 6.35 contours A10 L3 A13 L2 A12 L1 A11 L0
sketch "Sketch9" plane through (6.35, 0, 0) normal (1, 0, 0) x (0, 0, -1)
  arc A0 (-197.5113, 47.625) -> (-196.3978, 73.8357) centre (-215.2693, 61.5084) ccw
  circle A1 centre (-177.125, 41.275) radius 14.2875 projected
  circle A2 centre (-190.0765, 73.025) radius 3.5719 projected
  circle A3 centre (-190.0765, 73.025) radius 5.1594
  circle A4 centre (-177.125, 41.275) radius 20.6375
  line L0 (-196.3978, 73.8357) -> (-197.5113, 47.625)
  line L1 (-196.4208, 73.2945) -> (-197.7439, 42.151) projected
  point P0 (0, 0)
  dimension "d205" = 1.5875
  dimension "d206" = 6.35
  dimension "d213" = 6.35
extrude "Extrusion9" cut sketch "Sketch9" against normal blind 25.4 contours L0 A0
properties part number "OuterDriveRail" material "Aluminum 6061"
